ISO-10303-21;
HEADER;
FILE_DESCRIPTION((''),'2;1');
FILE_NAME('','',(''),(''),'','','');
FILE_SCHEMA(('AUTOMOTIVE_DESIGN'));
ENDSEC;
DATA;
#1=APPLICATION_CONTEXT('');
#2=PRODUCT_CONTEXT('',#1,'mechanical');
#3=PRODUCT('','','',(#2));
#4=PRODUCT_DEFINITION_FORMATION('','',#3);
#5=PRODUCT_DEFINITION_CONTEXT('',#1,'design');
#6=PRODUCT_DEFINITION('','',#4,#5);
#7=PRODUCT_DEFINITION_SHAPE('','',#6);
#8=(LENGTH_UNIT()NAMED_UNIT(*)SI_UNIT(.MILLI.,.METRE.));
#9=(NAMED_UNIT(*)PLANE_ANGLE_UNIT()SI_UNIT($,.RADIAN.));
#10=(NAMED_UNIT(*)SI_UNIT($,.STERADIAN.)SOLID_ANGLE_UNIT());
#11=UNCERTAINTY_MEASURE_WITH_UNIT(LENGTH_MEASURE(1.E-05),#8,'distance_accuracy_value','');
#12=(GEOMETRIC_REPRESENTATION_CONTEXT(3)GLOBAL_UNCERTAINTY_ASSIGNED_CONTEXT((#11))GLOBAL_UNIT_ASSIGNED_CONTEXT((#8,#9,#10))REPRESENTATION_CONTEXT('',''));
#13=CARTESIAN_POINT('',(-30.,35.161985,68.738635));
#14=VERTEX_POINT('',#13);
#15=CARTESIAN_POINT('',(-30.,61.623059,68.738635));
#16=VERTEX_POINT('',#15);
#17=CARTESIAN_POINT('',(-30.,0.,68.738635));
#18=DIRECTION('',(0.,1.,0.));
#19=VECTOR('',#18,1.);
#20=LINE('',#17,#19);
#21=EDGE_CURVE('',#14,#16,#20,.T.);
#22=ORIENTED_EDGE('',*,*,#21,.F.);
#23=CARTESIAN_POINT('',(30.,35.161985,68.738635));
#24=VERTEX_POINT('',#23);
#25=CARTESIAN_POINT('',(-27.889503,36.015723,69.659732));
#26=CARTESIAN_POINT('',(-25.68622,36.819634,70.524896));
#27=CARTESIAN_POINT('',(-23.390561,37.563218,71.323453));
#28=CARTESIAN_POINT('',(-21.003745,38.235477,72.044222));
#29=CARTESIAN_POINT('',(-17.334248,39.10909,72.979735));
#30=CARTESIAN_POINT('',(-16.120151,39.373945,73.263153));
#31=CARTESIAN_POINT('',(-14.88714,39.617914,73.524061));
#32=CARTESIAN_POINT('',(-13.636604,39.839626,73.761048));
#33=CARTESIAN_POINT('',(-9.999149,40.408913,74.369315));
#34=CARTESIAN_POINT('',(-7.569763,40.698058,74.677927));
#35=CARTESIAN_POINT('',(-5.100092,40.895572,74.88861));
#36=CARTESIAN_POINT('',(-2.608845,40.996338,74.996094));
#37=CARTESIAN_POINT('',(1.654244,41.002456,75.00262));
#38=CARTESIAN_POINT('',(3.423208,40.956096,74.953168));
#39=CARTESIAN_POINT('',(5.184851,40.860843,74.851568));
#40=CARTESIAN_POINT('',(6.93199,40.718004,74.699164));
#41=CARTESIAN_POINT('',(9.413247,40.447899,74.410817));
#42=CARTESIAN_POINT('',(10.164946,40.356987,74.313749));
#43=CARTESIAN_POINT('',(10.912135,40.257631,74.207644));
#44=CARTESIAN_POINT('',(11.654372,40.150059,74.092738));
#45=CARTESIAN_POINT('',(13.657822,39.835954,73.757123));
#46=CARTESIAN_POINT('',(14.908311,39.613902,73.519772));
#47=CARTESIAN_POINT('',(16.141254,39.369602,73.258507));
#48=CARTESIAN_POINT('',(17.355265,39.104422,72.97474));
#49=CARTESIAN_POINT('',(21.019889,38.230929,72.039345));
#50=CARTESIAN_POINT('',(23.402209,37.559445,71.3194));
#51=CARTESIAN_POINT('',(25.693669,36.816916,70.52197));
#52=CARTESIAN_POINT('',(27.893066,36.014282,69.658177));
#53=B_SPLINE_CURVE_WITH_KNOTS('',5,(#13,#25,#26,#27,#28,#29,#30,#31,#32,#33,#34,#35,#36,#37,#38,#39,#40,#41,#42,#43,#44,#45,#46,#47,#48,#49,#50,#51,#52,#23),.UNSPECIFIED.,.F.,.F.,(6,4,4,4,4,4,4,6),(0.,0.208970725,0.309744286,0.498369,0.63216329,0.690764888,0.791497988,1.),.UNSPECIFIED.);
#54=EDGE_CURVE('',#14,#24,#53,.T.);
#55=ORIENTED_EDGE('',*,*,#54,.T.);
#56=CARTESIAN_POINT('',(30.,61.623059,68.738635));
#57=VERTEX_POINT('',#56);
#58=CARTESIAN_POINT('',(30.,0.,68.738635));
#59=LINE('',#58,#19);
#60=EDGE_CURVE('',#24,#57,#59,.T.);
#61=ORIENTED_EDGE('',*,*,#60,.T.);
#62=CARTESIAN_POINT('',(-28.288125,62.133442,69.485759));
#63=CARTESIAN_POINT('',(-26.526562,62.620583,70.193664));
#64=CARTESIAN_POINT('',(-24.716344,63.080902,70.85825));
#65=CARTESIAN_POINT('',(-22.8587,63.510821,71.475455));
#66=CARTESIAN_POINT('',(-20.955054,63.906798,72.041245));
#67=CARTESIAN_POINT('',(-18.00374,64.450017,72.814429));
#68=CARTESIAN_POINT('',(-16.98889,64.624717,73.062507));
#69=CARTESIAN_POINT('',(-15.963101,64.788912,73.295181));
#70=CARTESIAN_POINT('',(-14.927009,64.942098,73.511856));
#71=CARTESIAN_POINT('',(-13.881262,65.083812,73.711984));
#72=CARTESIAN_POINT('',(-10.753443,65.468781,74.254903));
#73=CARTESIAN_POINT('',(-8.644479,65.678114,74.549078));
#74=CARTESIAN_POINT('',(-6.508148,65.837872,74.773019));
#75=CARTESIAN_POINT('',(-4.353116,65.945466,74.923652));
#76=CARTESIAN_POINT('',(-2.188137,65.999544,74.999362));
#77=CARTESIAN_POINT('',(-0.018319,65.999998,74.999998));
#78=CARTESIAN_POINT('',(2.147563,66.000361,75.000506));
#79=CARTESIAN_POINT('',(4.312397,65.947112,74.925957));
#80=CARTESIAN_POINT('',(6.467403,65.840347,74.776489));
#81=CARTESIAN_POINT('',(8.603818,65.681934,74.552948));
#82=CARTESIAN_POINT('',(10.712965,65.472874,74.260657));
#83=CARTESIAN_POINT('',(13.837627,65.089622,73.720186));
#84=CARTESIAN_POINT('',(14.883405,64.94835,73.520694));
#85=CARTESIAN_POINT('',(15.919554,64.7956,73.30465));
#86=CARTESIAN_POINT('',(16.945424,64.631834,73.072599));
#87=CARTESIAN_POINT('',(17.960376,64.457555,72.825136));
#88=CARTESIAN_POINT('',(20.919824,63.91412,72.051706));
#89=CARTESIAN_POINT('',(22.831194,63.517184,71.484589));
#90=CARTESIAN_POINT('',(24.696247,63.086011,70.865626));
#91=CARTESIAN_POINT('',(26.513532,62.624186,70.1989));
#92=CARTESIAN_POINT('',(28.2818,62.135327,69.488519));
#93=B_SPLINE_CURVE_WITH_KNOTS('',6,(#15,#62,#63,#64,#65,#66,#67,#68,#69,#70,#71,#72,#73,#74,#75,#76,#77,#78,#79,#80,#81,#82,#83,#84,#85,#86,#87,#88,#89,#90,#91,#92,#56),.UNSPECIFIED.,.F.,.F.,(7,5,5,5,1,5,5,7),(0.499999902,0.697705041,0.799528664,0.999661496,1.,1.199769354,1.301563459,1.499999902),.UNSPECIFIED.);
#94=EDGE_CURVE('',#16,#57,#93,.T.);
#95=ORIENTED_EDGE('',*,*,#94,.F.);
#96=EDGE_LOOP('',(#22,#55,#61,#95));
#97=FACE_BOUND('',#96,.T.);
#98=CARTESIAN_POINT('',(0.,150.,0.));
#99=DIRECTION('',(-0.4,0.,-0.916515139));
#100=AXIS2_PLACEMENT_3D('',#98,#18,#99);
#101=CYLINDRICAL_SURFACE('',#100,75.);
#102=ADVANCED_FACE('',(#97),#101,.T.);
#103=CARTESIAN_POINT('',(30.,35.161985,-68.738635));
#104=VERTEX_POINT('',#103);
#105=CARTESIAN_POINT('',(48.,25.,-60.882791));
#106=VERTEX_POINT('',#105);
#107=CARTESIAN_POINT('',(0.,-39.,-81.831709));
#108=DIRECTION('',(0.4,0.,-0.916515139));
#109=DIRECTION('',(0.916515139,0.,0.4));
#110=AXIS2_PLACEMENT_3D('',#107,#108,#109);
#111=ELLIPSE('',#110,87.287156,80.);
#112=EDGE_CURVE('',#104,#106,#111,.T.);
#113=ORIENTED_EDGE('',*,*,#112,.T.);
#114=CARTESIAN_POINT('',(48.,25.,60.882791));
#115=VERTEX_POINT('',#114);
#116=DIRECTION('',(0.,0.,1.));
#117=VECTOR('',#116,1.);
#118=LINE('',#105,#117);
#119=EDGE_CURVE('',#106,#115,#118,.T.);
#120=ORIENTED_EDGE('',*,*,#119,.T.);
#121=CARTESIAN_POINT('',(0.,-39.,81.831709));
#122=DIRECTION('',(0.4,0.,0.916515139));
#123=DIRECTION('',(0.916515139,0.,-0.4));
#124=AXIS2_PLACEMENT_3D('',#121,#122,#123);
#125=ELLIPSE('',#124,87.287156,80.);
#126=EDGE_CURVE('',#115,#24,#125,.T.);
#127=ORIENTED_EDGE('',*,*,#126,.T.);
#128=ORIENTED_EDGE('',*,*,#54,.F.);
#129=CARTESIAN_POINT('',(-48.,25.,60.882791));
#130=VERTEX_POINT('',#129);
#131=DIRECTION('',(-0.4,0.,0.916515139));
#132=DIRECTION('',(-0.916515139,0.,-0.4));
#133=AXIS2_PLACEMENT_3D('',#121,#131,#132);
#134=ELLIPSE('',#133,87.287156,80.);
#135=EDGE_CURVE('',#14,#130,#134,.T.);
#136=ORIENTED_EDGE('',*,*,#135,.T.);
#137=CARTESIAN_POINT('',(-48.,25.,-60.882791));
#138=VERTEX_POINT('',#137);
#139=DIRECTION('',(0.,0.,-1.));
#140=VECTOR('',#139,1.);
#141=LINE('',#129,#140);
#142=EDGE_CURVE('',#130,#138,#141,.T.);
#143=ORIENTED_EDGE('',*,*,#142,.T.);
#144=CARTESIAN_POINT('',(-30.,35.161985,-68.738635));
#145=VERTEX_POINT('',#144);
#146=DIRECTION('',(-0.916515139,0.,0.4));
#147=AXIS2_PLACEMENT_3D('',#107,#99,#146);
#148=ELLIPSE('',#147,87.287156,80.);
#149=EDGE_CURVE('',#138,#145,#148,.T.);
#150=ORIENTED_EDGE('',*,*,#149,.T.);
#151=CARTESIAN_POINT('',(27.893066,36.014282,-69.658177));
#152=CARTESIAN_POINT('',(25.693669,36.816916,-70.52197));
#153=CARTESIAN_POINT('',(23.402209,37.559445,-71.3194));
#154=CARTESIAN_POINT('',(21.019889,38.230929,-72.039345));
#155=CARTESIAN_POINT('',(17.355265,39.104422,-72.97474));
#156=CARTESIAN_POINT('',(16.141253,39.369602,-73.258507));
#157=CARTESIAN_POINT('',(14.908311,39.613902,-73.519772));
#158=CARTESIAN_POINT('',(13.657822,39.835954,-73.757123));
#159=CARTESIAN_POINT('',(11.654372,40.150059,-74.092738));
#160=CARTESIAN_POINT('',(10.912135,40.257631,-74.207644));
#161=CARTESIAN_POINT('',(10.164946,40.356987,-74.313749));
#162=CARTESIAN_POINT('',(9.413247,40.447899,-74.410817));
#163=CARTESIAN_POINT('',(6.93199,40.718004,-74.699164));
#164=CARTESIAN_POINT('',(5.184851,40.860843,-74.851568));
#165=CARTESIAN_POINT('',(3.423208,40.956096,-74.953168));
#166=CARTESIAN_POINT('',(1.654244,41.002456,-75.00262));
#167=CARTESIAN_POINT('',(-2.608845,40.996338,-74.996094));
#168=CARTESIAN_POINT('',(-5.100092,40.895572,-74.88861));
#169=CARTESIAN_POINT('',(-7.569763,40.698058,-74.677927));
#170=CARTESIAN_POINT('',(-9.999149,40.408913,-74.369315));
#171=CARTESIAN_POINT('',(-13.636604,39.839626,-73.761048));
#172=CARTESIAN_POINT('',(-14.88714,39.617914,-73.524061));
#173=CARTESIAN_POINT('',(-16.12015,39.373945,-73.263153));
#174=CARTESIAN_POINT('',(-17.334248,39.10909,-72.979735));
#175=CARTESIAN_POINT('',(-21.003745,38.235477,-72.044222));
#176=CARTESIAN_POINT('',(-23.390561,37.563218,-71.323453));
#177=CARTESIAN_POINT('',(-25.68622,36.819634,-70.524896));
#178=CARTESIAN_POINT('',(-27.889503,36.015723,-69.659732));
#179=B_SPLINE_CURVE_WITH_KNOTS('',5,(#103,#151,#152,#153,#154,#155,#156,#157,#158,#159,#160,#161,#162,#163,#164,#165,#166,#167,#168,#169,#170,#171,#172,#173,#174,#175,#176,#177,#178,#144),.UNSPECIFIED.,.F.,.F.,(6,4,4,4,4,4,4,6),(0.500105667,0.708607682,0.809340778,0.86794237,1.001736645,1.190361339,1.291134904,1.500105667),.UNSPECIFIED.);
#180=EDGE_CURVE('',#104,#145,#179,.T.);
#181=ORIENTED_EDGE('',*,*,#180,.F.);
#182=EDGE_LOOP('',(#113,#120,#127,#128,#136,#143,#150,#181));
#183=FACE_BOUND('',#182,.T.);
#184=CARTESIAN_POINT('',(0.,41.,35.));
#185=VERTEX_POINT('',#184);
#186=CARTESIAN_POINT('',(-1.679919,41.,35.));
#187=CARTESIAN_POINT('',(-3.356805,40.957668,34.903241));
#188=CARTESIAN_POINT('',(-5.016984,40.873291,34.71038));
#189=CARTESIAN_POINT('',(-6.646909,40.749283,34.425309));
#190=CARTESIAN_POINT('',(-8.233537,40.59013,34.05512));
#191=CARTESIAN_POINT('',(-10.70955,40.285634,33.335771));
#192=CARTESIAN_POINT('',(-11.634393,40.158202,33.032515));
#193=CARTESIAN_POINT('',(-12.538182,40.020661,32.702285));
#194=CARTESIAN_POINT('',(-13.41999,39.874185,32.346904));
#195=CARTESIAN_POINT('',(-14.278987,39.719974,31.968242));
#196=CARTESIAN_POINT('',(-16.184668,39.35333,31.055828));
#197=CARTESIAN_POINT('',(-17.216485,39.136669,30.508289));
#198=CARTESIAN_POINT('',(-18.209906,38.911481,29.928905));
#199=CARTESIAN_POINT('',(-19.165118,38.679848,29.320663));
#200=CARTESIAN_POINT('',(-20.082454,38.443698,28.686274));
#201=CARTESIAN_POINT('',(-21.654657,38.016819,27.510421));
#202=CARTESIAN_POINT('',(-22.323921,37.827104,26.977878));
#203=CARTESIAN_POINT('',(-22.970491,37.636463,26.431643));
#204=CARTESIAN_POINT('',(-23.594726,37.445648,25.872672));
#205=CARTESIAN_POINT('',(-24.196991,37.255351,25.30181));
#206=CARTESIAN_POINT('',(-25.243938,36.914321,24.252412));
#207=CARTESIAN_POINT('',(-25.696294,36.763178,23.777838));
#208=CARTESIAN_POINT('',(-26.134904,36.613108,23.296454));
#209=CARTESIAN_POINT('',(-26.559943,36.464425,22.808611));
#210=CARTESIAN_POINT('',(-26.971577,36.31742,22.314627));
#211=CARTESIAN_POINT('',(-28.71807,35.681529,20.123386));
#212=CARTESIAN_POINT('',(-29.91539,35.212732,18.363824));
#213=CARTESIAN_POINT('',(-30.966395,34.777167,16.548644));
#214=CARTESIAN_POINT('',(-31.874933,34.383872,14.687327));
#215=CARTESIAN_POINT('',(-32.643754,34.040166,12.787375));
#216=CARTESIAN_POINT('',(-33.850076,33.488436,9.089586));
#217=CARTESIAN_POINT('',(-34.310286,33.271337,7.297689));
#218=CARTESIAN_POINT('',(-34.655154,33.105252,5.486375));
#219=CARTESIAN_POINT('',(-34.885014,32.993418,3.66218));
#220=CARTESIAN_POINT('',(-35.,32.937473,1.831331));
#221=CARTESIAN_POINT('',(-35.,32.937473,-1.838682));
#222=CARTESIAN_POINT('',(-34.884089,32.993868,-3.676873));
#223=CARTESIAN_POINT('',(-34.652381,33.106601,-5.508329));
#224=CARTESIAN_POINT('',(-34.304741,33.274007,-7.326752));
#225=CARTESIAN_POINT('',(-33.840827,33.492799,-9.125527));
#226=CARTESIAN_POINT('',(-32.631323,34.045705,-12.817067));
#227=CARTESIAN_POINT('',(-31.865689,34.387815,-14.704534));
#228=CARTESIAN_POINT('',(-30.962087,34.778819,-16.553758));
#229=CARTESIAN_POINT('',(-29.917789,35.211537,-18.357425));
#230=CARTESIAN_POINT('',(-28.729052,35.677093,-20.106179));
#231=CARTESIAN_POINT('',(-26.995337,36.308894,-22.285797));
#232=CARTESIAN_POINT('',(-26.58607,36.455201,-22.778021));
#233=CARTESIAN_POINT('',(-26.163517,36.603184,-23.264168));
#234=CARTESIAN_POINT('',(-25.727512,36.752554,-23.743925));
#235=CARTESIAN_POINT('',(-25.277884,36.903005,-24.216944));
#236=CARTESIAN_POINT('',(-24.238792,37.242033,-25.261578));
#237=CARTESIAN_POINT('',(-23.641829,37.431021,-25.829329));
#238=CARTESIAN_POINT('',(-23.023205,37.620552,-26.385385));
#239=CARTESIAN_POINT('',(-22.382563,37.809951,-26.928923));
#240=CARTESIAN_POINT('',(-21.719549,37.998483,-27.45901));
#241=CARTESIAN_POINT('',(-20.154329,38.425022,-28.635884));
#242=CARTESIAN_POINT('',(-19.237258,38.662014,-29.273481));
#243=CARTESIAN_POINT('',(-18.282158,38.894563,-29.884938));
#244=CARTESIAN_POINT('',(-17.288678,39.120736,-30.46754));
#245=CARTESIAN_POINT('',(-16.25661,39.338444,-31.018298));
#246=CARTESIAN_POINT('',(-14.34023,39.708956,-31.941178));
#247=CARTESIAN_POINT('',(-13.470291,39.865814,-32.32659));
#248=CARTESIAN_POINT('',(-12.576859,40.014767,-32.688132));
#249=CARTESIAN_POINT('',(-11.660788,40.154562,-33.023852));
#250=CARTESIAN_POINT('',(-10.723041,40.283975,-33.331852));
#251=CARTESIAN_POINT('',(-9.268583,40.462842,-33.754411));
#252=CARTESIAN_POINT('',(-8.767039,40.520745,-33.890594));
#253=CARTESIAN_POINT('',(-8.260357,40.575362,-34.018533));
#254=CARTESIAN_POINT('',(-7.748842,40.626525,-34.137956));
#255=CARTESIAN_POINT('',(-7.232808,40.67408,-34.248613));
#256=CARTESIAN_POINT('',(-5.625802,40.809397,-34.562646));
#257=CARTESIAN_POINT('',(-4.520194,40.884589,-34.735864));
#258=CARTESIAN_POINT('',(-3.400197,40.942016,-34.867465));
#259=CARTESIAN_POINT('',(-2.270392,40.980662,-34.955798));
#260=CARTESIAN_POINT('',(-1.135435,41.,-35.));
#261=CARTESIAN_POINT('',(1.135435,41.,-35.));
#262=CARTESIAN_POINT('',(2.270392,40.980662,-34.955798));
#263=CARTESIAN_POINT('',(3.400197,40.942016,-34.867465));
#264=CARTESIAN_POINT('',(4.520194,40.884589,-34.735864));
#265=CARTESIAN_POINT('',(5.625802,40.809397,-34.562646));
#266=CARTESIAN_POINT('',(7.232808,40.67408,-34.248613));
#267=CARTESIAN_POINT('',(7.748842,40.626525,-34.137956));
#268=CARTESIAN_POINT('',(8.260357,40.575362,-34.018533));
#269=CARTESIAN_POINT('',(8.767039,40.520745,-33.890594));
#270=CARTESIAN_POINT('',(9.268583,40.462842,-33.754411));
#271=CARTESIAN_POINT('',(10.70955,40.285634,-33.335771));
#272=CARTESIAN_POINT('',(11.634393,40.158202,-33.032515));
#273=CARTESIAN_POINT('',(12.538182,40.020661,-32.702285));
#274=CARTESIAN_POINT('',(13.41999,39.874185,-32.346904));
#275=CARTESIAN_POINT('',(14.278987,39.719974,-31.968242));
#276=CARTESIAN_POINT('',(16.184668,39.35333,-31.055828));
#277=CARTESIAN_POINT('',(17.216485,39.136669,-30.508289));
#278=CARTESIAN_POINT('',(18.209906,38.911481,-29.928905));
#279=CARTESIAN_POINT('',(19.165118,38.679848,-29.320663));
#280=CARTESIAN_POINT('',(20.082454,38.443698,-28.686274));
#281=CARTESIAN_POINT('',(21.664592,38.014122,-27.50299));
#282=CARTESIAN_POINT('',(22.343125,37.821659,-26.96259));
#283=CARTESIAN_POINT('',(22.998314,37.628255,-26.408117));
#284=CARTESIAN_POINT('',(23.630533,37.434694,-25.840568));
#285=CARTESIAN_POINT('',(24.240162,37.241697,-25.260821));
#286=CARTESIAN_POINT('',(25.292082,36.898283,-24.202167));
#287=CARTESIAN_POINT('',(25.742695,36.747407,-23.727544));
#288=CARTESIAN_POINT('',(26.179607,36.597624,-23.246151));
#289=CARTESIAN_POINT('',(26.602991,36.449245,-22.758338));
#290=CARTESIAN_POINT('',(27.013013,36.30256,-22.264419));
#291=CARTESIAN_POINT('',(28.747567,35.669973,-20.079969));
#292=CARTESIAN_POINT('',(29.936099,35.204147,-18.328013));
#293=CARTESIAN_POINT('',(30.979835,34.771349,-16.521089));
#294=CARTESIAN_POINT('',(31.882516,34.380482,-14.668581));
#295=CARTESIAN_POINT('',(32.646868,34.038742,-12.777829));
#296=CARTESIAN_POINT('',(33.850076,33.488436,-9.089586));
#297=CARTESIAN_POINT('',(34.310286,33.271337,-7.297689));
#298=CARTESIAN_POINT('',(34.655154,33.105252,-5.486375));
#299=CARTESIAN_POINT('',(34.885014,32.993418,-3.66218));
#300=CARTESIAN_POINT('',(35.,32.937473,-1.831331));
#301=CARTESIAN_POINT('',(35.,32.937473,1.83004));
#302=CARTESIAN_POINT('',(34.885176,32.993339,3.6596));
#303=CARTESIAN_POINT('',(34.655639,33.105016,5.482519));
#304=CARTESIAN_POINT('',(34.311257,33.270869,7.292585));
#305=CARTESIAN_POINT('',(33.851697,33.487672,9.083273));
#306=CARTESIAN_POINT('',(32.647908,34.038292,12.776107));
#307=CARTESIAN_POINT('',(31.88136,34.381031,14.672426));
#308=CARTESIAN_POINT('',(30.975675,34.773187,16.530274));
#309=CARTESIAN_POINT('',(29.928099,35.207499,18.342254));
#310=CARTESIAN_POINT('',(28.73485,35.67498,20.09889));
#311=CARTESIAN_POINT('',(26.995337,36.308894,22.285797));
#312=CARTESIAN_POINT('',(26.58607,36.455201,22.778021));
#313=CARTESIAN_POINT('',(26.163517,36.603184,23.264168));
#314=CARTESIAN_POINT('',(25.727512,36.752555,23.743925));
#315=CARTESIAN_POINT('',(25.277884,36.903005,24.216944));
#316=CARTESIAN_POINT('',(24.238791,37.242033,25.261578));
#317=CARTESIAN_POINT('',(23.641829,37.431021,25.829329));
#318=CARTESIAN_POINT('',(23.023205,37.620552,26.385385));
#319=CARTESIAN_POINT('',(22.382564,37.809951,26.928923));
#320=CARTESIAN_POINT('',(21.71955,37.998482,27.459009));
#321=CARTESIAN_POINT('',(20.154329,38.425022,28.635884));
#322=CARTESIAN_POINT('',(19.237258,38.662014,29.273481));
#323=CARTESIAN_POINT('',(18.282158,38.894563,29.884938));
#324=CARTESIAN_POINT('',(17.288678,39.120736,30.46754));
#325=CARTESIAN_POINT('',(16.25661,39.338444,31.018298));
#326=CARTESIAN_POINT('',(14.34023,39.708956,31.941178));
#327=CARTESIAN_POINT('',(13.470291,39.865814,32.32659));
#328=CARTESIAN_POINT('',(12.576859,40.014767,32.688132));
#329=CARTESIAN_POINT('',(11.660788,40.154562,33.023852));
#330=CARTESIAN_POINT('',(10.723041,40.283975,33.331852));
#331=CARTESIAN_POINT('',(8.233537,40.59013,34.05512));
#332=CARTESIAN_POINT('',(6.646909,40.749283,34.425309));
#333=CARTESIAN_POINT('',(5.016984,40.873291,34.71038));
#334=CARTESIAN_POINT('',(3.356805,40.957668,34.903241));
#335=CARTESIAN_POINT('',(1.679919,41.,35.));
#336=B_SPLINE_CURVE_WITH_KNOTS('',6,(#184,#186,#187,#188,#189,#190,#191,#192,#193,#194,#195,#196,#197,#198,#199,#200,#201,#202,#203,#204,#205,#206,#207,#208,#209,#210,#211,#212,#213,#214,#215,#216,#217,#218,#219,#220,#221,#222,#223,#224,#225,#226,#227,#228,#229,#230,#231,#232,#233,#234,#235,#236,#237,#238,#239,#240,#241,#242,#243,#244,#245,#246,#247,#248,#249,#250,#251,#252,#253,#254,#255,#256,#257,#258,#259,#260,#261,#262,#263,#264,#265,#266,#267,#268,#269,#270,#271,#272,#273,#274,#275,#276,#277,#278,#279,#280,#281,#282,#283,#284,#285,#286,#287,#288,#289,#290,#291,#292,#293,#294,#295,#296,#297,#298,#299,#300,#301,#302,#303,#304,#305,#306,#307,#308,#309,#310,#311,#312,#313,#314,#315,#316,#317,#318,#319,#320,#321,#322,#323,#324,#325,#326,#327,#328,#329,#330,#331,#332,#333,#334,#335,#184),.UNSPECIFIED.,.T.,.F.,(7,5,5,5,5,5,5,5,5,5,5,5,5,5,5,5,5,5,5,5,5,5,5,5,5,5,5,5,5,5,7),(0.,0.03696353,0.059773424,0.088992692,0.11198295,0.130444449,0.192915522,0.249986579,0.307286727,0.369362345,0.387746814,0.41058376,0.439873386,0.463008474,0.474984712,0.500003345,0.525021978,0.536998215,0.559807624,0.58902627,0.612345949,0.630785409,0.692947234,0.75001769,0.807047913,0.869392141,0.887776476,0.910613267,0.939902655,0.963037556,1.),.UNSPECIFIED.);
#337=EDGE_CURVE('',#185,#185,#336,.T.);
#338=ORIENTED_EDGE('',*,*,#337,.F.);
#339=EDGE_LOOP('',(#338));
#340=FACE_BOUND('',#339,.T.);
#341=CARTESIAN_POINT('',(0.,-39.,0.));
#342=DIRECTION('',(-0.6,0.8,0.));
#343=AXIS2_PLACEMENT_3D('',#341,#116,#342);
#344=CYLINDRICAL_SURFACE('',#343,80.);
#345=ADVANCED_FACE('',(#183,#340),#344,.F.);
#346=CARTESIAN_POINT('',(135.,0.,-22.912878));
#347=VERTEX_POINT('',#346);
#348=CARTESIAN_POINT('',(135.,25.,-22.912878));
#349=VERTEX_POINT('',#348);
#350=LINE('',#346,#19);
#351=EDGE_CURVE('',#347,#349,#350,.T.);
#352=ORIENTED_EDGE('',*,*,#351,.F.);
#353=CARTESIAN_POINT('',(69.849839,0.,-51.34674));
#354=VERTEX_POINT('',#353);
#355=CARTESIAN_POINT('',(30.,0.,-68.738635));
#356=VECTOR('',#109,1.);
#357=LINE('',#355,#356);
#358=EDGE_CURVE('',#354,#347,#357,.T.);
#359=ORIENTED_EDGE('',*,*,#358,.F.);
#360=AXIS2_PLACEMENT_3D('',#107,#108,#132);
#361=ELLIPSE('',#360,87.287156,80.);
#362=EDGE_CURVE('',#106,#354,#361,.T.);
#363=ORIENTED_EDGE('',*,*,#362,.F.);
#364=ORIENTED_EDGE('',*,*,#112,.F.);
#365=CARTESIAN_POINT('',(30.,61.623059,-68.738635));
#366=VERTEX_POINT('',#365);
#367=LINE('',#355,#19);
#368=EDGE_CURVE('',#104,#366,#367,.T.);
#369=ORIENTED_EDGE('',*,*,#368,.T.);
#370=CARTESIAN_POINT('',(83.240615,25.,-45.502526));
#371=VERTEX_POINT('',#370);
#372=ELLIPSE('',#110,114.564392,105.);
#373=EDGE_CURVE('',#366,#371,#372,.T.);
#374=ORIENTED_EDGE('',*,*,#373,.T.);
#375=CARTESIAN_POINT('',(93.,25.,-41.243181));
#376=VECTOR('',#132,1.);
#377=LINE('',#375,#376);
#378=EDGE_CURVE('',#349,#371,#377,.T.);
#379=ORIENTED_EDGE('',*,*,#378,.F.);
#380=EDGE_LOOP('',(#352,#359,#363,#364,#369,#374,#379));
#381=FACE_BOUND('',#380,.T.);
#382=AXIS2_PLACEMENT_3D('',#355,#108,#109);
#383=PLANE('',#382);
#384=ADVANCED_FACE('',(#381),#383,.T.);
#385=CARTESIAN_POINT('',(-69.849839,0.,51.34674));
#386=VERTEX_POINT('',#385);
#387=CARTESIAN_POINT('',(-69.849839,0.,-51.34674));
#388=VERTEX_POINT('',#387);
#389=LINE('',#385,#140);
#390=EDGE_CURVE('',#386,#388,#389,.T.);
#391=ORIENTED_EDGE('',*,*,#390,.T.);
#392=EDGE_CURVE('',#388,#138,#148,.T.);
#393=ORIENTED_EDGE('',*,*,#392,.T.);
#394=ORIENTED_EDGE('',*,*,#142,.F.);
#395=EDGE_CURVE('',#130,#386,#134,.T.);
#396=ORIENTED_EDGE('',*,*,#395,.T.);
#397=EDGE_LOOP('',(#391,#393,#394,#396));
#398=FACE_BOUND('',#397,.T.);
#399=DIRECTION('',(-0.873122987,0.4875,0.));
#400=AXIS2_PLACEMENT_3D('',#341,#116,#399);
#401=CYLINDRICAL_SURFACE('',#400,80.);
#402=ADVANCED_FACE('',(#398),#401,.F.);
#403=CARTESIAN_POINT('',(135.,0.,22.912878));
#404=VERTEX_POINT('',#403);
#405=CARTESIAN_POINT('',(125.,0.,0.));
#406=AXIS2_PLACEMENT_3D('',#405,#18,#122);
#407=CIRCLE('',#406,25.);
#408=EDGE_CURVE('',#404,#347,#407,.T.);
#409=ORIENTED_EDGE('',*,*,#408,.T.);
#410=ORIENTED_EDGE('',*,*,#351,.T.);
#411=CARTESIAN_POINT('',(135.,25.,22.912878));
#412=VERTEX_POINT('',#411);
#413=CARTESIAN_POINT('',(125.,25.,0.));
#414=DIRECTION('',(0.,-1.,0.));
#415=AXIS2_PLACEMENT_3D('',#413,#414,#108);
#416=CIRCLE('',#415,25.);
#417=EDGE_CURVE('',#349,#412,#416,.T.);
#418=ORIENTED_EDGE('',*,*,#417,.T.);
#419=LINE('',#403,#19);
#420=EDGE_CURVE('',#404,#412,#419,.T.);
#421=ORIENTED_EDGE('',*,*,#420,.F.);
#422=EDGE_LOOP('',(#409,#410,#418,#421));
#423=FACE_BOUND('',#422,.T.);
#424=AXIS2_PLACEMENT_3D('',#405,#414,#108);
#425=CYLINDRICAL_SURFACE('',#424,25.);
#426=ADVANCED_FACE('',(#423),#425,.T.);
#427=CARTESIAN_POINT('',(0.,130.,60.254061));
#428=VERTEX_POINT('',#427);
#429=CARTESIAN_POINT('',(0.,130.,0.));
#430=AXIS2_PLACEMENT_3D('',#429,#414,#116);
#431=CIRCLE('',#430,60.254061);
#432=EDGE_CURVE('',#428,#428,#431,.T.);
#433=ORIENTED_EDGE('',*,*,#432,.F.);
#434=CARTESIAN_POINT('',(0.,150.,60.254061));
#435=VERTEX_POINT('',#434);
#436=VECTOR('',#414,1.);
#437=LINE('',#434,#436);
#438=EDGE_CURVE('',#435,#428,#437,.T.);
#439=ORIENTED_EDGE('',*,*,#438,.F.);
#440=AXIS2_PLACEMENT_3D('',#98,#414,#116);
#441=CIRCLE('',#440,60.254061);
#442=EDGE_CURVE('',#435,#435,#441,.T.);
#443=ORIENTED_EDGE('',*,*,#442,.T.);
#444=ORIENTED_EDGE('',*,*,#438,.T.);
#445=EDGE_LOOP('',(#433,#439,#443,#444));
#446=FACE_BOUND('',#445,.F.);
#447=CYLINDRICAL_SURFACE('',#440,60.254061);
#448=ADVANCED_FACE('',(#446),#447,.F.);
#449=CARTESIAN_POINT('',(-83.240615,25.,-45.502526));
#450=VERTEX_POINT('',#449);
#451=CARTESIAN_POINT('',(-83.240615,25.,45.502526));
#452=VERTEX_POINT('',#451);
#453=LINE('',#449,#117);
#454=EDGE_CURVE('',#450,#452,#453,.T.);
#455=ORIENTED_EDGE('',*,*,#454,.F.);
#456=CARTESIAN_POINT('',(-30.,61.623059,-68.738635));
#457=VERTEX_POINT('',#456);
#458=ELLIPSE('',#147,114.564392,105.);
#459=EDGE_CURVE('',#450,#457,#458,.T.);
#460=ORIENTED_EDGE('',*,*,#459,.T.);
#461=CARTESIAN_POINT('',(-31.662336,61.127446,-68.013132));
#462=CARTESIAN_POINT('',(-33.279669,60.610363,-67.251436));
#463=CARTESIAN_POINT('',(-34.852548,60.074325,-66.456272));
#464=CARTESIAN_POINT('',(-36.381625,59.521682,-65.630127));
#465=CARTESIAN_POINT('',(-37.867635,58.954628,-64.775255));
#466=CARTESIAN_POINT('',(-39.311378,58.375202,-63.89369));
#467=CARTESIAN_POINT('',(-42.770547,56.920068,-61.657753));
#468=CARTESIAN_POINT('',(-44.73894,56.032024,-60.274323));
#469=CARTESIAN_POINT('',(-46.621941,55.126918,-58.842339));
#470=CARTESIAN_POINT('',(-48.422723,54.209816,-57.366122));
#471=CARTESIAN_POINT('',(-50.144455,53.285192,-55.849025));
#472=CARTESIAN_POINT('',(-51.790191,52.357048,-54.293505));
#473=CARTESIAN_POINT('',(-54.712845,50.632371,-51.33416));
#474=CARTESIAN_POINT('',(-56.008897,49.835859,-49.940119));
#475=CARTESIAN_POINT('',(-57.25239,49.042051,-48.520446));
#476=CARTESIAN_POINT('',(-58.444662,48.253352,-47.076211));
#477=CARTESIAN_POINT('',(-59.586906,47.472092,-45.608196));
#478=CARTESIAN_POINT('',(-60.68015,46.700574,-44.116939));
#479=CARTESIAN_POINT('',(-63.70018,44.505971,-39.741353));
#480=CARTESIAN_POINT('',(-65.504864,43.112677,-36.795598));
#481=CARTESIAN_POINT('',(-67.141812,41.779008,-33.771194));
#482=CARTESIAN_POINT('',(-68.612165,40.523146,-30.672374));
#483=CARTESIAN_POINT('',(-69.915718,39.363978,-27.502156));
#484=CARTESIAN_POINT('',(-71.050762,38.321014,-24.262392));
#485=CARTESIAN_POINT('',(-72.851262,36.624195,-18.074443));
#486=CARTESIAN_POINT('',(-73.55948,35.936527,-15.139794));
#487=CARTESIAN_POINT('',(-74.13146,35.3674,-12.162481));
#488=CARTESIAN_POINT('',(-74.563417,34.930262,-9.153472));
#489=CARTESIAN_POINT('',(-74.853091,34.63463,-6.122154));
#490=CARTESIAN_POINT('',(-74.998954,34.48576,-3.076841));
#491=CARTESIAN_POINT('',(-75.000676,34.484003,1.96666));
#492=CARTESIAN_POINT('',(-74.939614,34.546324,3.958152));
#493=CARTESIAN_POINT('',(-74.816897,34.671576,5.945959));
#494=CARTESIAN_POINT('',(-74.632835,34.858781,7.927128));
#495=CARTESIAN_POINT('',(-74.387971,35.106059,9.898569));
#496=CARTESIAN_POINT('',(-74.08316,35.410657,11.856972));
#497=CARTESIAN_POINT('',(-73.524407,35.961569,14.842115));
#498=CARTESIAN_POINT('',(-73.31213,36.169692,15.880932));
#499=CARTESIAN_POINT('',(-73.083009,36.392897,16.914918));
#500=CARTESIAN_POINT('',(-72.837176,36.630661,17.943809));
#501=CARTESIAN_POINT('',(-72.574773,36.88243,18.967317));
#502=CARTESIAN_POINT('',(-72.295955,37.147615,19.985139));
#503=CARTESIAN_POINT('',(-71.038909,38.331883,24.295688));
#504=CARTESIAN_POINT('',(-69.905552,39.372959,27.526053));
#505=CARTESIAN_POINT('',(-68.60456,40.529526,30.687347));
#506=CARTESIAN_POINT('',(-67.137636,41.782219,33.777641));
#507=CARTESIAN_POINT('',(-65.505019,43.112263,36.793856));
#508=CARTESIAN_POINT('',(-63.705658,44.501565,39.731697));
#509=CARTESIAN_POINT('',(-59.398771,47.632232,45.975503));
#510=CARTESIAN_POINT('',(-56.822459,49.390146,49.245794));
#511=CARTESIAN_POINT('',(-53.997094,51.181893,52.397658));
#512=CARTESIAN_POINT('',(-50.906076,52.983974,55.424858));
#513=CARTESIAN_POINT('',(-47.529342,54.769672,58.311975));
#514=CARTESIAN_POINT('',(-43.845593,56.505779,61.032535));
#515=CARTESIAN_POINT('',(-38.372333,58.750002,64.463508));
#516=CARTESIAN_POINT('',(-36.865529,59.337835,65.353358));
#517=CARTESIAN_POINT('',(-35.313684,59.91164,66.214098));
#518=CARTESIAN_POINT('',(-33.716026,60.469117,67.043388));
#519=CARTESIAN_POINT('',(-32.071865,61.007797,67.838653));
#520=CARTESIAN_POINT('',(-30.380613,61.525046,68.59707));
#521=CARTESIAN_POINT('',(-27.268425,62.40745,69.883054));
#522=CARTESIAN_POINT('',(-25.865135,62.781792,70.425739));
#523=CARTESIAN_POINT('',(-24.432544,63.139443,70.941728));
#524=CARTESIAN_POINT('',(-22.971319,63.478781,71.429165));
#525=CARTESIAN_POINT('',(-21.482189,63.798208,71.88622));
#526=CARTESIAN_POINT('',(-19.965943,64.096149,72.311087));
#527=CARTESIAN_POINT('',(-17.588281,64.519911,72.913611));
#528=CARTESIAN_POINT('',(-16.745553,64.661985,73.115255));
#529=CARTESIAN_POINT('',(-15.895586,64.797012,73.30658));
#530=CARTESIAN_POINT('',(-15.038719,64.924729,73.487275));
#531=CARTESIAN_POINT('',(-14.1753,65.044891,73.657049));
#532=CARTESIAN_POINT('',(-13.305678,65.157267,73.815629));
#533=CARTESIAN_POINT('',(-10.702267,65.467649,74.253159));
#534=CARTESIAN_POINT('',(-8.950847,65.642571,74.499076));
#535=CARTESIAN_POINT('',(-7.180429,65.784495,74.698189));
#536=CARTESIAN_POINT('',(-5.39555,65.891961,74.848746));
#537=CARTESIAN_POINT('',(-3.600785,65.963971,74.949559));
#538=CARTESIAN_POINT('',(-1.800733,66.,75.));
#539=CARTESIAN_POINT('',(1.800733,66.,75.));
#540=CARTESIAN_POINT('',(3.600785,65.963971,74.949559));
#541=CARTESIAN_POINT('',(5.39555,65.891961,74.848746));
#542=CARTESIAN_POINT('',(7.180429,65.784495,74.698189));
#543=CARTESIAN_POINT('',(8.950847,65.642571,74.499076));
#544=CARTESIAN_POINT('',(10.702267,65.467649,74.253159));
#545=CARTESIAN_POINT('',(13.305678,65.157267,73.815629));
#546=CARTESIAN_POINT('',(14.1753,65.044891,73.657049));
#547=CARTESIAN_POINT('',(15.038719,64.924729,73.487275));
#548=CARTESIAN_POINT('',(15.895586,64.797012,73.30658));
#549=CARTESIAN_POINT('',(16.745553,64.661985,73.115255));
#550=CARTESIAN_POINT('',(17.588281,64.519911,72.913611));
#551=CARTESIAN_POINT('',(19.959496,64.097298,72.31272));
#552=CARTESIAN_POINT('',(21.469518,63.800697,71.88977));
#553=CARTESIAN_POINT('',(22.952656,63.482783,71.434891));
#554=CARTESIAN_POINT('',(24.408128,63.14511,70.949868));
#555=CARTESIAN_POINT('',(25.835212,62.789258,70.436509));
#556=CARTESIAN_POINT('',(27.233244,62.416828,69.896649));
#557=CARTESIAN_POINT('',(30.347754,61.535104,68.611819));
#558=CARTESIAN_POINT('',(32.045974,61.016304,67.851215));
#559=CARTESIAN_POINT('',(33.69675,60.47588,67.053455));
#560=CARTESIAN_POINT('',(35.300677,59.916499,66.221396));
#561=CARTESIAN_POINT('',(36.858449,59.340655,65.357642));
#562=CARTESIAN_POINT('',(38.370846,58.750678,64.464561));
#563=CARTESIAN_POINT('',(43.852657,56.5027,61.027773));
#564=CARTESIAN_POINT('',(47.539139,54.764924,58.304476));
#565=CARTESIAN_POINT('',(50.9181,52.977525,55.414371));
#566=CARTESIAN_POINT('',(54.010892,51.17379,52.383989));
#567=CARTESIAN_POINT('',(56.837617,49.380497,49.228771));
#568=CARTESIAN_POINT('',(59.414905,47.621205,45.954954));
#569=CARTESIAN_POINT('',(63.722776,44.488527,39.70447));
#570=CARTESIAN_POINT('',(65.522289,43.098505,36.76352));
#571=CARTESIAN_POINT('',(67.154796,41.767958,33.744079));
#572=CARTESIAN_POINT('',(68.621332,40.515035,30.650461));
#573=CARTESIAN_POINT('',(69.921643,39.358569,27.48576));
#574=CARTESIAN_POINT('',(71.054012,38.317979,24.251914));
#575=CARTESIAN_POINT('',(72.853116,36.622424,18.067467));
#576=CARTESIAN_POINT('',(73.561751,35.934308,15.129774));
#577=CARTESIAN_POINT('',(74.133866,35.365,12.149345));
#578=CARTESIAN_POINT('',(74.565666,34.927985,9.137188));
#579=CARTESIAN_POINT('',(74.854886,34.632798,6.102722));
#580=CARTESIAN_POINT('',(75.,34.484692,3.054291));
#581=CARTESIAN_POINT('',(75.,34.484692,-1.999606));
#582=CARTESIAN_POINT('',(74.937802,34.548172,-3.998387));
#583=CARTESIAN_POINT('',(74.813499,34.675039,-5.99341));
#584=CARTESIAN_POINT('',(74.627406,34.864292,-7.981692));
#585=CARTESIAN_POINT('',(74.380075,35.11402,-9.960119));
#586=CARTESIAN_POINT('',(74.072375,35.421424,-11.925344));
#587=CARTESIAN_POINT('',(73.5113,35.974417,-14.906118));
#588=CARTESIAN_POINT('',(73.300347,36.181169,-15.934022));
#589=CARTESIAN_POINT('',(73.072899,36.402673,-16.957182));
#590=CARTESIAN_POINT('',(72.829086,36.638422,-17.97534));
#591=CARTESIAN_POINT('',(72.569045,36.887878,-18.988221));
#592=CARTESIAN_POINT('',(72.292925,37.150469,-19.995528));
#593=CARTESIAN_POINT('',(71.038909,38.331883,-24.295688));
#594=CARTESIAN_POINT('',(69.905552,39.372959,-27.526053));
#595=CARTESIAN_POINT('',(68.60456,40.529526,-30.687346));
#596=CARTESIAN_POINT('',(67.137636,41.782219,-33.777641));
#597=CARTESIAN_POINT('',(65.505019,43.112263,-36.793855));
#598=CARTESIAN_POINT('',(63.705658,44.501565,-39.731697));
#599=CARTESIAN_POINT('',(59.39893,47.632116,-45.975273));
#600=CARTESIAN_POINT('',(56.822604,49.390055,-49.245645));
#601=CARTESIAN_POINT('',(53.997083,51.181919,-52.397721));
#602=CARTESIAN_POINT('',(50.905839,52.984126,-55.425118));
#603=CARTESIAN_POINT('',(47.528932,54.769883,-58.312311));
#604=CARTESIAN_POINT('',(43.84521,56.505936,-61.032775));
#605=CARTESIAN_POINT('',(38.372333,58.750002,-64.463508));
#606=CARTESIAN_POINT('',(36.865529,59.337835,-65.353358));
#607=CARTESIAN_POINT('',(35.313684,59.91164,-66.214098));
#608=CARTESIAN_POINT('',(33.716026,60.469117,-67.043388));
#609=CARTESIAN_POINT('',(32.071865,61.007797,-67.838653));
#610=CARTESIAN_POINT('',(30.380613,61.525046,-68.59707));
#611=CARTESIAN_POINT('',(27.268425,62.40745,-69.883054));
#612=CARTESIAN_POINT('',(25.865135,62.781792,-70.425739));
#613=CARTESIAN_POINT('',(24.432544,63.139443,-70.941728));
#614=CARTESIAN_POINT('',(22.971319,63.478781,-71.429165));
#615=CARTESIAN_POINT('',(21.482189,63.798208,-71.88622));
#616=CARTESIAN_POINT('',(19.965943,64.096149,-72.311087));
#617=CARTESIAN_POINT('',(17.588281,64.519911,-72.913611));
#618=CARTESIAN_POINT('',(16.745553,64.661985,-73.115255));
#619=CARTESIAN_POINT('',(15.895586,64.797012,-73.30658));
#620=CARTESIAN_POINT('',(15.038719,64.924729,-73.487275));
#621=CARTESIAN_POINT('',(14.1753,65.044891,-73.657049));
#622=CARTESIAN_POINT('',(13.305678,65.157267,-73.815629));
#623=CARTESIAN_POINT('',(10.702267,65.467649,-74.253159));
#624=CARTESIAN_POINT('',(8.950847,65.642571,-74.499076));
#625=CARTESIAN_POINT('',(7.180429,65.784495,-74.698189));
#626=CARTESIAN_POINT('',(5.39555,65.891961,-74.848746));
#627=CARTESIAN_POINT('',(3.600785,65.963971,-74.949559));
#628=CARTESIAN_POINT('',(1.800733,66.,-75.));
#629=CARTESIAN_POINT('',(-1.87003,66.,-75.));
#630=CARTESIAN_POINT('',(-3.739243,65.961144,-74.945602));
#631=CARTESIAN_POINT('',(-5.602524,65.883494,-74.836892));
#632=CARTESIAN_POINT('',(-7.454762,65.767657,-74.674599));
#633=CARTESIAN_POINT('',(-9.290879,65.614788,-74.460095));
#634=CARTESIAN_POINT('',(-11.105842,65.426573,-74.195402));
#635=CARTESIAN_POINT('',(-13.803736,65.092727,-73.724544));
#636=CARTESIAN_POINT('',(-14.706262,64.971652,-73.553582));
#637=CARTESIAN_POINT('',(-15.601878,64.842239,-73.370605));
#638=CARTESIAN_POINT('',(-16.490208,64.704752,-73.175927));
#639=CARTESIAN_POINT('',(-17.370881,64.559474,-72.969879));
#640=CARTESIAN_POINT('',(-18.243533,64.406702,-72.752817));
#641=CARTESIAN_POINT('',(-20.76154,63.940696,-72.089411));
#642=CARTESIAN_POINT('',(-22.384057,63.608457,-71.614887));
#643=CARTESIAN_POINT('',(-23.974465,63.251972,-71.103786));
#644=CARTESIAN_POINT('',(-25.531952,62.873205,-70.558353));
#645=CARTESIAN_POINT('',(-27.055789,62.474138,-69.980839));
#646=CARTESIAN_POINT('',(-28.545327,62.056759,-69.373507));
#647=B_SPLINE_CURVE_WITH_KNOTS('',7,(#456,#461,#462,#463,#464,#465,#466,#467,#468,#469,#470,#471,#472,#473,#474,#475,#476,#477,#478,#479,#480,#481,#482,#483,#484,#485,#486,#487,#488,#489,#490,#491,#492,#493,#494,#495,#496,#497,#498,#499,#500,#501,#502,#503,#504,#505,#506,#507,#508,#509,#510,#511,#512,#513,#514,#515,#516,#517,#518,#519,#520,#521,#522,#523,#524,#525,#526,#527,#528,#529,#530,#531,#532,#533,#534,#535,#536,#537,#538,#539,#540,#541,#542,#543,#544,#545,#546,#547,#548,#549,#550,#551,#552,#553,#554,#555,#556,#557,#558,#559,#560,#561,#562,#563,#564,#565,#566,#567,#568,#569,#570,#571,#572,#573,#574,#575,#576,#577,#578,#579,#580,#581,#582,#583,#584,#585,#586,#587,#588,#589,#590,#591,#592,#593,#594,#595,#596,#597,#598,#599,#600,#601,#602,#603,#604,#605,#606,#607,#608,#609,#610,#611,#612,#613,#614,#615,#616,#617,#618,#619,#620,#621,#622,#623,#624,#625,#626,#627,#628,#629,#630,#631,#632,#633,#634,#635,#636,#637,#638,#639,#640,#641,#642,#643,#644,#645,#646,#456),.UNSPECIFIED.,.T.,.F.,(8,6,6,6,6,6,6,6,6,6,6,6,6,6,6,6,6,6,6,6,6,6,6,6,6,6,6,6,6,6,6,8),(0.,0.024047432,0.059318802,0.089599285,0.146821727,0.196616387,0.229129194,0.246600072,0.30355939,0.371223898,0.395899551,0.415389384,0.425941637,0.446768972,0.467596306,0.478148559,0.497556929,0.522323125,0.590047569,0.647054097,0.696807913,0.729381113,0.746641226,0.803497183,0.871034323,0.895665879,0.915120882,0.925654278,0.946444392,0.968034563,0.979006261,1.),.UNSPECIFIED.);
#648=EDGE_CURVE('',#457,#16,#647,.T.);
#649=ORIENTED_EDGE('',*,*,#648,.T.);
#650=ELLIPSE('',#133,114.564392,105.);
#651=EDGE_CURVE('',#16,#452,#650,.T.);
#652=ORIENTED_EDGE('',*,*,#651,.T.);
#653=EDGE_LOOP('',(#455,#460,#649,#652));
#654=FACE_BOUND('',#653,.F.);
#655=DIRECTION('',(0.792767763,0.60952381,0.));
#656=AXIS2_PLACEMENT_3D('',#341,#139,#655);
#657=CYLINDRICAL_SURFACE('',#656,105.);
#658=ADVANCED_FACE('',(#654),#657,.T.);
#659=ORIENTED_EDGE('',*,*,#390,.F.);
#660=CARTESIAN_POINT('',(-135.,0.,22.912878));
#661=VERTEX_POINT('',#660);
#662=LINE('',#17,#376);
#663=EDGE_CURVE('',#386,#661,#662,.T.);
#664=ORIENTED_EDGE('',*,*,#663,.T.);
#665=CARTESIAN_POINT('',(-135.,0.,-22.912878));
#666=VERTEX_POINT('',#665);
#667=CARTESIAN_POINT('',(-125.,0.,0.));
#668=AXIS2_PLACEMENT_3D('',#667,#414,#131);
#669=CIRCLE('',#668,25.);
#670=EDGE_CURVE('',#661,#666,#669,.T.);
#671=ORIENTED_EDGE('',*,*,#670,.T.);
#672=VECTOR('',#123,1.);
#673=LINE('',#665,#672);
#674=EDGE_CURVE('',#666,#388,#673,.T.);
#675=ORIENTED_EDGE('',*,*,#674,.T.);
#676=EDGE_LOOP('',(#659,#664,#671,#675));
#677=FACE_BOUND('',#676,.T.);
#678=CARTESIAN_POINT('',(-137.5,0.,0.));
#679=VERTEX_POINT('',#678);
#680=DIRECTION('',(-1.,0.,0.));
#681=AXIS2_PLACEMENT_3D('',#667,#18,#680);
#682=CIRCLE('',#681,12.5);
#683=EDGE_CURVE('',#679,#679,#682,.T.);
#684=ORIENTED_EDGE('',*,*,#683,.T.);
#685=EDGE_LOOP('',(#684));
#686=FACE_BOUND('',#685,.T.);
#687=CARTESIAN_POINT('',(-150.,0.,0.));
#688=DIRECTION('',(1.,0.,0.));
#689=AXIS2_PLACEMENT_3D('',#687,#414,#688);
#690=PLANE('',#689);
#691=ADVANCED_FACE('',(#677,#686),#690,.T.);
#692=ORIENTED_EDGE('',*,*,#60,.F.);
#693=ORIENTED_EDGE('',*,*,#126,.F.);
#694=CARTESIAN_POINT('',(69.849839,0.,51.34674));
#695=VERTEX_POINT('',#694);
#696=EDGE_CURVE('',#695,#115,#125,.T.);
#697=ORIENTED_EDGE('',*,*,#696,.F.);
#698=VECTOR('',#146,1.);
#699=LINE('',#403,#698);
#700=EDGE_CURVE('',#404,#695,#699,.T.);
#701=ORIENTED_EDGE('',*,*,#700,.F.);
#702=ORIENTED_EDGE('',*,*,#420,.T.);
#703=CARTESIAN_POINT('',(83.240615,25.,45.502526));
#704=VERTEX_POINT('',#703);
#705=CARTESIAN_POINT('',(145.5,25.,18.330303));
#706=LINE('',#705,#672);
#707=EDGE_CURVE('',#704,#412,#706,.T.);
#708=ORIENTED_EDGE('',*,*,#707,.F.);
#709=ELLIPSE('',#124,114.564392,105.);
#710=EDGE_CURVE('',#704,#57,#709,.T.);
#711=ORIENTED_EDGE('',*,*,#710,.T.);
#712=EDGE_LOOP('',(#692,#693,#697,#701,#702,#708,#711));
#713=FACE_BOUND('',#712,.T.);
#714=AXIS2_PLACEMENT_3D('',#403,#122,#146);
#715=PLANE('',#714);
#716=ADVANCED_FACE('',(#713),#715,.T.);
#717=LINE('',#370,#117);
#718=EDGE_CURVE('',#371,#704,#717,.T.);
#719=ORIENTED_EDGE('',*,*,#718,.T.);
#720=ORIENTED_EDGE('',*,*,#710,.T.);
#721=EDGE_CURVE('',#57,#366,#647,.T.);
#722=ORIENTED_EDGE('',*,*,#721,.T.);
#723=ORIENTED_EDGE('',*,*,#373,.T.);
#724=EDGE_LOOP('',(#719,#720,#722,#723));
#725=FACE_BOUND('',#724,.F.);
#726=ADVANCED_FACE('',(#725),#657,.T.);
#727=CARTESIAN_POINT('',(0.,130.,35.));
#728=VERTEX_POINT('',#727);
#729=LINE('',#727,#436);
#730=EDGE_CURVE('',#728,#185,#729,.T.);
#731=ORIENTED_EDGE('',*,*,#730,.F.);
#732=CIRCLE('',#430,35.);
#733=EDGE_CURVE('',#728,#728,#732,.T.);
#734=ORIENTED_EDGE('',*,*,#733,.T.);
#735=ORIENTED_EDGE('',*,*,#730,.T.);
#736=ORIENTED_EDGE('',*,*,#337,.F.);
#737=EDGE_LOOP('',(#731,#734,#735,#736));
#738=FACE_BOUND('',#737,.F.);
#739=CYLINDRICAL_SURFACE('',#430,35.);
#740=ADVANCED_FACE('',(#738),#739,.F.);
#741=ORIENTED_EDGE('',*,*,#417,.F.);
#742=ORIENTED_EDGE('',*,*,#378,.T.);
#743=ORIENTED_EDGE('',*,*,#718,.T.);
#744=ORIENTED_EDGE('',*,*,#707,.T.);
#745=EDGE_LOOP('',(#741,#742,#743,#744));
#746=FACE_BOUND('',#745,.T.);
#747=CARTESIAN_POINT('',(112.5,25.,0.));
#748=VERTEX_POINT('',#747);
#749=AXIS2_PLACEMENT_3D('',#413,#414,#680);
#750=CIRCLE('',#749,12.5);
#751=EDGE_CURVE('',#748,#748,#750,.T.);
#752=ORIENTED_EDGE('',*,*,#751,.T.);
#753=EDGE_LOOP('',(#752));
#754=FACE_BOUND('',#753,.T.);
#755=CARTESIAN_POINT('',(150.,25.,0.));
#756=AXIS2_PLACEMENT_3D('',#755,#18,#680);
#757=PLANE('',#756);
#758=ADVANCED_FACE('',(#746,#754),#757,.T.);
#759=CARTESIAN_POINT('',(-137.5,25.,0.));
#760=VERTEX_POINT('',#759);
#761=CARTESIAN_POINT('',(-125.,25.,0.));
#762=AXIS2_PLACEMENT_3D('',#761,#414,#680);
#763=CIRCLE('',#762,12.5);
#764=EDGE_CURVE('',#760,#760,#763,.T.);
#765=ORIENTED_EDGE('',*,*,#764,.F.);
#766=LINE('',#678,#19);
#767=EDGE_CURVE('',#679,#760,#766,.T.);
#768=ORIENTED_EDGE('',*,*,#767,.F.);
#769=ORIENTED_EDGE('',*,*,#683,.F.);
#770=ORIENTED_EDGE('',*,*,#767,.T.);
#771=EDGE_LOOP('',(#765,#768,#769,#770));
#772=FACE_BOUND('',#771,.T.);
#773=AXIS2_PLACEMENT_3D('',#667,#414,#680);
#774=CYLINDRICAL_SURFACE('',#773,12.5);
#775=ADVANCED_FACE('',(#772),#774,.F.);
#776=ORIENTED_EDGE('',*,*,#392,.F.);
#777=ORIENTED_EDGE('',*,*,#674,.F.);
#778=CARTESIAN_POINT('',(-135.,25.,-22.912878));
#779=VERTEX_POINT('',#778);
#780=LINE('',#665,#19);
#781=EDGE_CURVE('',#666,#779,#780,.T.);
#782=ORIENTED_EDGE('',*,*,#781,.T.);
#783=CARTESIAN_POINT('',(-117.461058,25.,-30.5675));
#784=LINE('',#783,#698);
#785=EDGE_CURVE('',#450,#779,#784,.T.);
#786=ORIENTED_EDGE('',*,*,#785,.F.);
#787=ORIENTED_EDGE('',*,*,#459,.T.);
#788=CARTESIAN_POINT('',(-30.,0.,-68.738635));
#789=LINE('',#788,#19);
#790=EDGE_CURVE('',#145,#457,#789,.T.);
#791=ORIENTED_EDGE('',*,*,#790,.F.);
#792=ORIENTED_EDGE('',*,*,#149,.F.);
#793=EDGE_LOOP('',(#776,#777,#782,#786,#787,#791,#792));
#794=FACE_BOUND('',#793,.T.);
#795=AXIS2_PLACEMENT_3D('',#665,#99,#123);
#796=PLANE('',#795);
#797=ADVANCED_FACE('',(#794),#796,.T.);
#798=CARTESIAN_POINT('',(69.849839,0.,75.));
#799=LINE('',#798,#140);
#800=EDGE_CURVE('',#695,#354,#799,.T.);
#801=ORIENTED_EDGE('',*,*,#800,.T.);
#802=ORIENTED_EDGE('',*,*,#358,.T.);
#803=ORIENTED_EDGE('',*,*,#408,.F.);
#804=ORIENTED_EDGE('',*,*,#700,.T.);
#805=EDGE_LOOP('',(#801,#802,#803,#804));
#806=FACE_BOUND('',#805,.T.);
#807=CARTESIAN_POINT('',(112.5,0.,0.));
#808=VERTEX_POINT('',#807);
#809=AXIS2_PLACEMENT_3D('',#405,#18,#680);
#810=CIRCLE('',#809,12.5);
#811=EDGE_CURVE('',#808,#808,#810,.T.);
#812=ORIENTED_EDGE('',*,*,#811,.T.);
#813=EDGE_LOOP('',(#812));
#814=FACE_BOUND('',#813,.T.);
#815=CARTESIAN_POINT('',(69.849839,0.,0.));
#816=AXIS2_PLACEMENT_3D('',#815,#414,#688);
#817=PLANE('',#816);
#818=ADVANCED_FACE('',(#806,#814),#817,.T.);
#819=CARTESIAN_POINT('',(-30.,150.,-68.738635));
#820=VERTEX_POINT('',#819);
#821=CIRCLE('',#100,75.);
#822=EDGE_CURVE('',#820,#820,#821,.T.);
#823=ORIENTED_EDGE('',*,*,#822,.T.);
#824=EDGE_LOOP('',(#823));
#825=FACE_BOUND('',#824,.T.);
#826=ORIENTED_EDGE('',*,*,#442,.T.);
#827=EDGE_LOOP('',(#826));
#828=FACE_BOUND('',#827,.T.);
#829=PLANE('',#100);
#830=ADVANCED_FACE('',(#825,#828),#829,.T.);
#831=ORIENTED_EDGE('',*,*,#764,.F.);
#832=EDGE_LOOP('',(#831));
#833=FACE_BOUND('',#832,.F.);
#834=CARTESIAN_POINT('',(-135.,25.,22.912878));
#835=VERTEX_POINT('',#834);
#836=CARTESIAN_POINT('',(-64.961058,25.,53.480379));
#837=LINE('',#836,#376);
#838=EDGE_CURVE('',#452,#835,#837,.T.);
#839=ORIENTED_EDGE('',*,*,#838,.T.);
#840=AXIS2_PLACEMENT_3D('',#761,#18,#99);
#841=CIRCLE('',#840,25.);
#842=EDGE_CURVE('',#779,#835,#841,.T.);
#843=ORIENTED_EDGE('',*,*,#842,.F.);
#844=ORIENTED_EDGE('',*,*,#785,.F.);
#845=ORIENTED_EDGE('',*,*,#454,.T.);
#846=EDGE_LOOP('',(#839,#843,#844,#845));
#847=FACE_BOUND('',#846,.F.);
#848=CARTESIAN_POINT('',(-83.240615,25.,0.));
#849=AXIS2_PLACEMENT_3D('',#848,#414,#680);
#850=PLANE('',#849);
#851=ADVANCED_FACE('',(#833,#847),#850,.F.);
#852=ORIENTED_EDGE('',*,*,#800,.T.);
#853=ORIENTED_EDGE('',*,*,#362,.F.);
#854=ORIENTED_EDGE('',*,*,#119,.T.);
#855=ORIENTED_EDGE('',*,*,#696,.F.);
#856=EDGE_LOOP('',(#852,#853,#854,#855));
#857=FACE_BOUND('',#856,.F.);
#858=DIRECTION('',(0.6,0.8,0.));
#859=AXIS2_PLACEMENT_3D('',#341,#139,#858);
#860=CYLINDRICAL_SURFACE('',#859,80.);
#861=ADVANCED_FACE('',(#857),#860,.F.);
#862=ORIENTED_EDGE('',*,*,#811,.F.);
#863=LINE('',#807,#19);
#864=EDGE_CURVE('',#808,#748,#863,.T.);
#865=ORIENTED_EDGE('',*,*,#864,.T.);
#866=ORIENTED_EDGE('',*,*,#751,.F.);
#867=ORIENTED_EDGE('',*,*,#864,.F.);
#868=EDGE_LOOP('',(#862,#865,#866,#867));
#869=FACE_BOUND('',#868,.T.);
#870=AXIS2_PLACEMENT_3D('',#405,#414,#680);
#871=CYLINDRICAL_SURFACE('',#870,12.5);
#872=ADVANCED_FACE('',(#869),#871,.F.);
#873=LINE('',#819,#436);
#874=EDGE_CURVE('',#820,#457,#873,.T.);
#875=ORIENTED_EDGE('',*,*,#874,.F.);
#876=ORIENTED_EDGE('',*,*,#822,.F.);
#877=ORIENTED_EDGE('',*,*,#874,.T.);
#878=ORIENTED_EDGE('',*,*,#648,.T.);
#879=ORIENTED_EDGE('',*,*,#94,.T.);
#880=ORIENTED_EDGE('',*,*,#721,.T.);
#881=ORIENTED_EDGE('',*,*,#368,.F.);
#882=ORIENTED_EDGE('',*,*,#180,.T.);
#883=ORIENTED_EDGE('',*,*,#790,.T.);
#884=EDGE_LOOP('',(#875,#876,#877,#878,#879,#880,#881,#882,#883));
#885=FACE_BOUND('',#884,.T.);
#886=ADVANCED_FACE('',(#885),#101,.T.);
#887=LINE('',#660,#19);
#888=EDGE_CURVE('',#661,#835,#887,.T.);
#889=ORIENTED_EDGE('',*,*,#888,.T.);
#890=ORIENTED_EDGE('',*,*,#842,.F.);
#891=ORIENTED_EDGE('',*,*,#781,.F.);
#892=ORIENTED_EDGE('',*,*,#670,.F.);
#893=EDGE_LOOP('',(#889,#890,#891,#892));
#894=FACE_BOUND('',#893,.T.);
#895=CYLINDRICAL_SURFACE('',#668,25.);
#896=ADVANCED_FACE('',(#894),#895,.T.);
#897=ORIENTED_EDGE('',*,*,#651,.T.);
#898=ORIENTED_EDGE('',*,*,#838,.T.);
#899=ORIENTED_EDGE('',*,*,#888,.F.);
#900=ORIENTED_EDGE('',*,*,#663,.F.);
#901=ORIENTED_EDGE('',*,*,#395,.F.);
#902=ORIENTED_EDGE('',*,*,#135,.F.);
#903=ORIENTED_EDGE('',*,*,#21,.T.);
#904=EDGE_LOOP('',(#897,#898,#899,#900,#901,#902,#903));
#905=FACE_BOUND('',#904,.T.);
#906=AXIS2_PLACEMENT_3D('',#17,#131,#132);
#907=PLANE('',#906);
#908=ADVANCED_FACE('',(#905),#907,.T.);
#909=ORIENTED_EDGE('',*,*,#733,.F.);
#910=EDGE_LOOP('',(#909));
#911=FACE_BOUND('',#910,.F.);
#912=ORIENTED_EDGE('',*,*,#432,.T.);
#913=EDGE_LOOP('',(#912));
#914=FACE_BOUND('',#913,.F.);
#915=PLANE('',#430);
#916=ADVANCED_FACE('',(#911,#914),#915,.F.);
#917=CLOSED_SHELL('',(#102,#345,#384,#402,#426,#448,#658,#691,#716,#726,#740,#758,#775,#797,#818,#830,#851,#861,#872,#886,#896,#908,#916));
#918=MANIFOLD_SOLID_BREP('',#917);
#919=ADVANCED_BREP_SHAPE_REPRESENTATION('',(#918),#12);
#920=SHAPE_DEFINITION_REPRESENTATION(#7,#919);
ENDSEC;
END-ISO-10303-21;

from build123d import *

# Parameters (mm, degrees)
BOSS_EXTRUDE2_DEPTH = 75
SKETCH2_OUTSIDE_W   = 370.368
SKETCH2_OUTSIDE_H   = 220.368
SKETCH2_OUTSIDE_R   = 12.5
CUT_EXTRUDE3_DEPTH  = 150
BOSS_EXTRUDE3_REACH = 227
SKETCH3_R           = 75


with BuildPart() as part:
    # Sketch1 → Boss-Extrude2 (new, symmetric)
    with BuildSketch(Plane.XY):
        with BuildLine():
            Line((150, 25), (83.240615087, 25))
            ThreePointArc((83.240615087, 25), (91.224995055, 12.990386393), (97.488460856, 0))
            Line((97.488460856, 0), (150, 0))
            Line((150, 0), (150, 25))
        make_face()
        with BuildLine():
            Line((-48, 25), (-83.240615087, 25))
            ThreePointArc((-83.240615087, 25), (-91.224995055, 12.990386393), (-97.488460856, 0))
            Line((-97.488460856, 0), (-69.84983894, 0))
            ThreePointArc((-69.84983894, 0), (-60.236169654, 13.646024213), (-48, 25))
        make_face()
        with BuildLine():
            ThreePointArc((97.488460856, 0), (91.224995055, 12.990386393), (83.240615087, 25))
            Line((83.240615087, 25), (48, 25))
            ThreePointArc((48, 25), (60.236169654, 13.646024213), (69.84983894, 0))
            Line((69.84983894, 0), (97.488460856, 0))
        make_face()
        with BuildLine():
            ThreePointArc((83.240615087, 25), (0, 66), (-83.240615087, 25))
            Line((-83.240615087, 25), (-48, 25))
            ThreePointArc((-48, 25), (0, 41), (48, 25))
            Line((48, 25), (83.240615087, 25))
        make_face()
        with BuildLine():
            Line((-48, 25), (-83.240615087, 25))
            ThreePointArc((-83.240615087, 25), (-91.224995055, 12.990386393), (-97.488460856, 0))
            Line((-97.488460856, 0), (-69.84983894, 0))
            ThreePointArc((-69.84983894, 0), (-60.236169654, 13.646024213), (-48, 25))
        make_face()
        with BuildLine():
            ThreePointArc((97.488460856, 0), (91.224995055, 12.990386393), (83.240615087, 25))
            Line((83.240615087, 25), (48, 25))
            ThreePointArc((48, 25), (60.236169654, 13.646024213), (69.84983894, 0))
            Line((69.84983894, 0), (97.488460856, 0))
        make_face()
        with BuildLine():
            Line((-83.240615087, 25), (-150, 25))
            Line((-150, 25), (-150, 0))
            Line((-150, 0), (-97.488460856, 0))
            ThreePointArc((-97.488460856, 0), (-91.224995055, 12.990386393), (-83.240615087, 25))
        make_face()
    extrude(amount=BOSS_EXTRUDE2_DEPTH, both=True)

    # Sketch2 outside → Cut-Extrude3 (cut)
    # profile 1 of 3: a face of its own
    with BuildSketch(Plane(origin=(0, 0, 0), x_dir=(1, 0, 0), z_dir=(0, 1, 0))):
        Rectangle(SKETCH2_OUTSIDE_W, SKETCH2_OUTSIDE_H)
        with BuildLine():
            Line((135, -22.912878475), (30, -68.738635424))
            ThreePointArc((30, -68.738635424), (0, -75), (-30, -68.738635424))
            Line((-30, -68.738635424), (-135, -22.912878475))
            ThreePointArc((-135, -22.912878475), (-150, 0), (-135, 22.912878475))
            Line((-135, 22.912878475), (-30, 68.738635424))
            ThreePointArc((-30, 68.738635424), (0, 75), (30, 68.738635424))
            Line((30, 68.738635424), (135, 22.912878475))
            ThreePointArc((135, 22.912878475), (150, 0), (135, -22.912878475))
        make_face(mode=Mode.SUBTRACT)
    # profile 2 of 3: a face of its own
    with BuildSketch(Plane(origin=(0, 0, 0), x_dir=(1, 0, 0), z_dir=(0, 1, 0))):
        with Locations(Location((125, 0, 0), (0, 0, 180))):
            Circle(SKETCH2_OUTSIDE_R)
    # profile 3 of 3: a face of its own
    with BuildSketch(Plane(origin=(0, 0, 0), x_dir=(1, 0, 0), z_dir=(0, 1, 0))):
        with Locations(Location((-125, 0, 0), (0, 0, 180))):
            Circle(SKETCH2_OUTSIDE_R)
    extrude(amount=CUT_EXTRUDE3_DEPTH, mode=Mode.SUBTRACT)

    # Sketch3 → Boss-Extrude3 (add, up to next)
    with BuildSketch(Plane(origin=(0, 150, 0), x_dir=(1, 0, 0), z_dir=(0, 1, 0)), mode=Mode.PRIVATE) as boss_extrude3_sk1:
        with Locations(Location((0, 0, 0), (0, 0, 113.578178478))):
            Circle(SKETCH3_R)
    boss_extrude3_tool1 = extrude(boss_extrude3_sk1.sketch, amount=-BOSS_EXTRUDE3_REACH, mode=Mode.PRIVATE) - part.part
    add(boss_extrude3_tool1.solids().sort_by_distance((0, 150, 0))[0])

    # Sketch5 → Cut-Revolve3 (revolve, cut)
    with BuildSketch(Plane.XY, mode=Mode.PRIVATE) as cut_revolve3_sk:
        Polygon((0, 150), (60.25406126, 150), (60.25406126, 130), (35, 130), (35, 0), (0, 0), align=None)
    revolve(cut_revolve3_sk.sketch.rotate(Axis((0, 0, 0), (0, -1, 0)), 90), axis=Axis((0, 0, 0), (0, -1, 0)), mode=Mode.SUBTRACT)


solid = part.part
